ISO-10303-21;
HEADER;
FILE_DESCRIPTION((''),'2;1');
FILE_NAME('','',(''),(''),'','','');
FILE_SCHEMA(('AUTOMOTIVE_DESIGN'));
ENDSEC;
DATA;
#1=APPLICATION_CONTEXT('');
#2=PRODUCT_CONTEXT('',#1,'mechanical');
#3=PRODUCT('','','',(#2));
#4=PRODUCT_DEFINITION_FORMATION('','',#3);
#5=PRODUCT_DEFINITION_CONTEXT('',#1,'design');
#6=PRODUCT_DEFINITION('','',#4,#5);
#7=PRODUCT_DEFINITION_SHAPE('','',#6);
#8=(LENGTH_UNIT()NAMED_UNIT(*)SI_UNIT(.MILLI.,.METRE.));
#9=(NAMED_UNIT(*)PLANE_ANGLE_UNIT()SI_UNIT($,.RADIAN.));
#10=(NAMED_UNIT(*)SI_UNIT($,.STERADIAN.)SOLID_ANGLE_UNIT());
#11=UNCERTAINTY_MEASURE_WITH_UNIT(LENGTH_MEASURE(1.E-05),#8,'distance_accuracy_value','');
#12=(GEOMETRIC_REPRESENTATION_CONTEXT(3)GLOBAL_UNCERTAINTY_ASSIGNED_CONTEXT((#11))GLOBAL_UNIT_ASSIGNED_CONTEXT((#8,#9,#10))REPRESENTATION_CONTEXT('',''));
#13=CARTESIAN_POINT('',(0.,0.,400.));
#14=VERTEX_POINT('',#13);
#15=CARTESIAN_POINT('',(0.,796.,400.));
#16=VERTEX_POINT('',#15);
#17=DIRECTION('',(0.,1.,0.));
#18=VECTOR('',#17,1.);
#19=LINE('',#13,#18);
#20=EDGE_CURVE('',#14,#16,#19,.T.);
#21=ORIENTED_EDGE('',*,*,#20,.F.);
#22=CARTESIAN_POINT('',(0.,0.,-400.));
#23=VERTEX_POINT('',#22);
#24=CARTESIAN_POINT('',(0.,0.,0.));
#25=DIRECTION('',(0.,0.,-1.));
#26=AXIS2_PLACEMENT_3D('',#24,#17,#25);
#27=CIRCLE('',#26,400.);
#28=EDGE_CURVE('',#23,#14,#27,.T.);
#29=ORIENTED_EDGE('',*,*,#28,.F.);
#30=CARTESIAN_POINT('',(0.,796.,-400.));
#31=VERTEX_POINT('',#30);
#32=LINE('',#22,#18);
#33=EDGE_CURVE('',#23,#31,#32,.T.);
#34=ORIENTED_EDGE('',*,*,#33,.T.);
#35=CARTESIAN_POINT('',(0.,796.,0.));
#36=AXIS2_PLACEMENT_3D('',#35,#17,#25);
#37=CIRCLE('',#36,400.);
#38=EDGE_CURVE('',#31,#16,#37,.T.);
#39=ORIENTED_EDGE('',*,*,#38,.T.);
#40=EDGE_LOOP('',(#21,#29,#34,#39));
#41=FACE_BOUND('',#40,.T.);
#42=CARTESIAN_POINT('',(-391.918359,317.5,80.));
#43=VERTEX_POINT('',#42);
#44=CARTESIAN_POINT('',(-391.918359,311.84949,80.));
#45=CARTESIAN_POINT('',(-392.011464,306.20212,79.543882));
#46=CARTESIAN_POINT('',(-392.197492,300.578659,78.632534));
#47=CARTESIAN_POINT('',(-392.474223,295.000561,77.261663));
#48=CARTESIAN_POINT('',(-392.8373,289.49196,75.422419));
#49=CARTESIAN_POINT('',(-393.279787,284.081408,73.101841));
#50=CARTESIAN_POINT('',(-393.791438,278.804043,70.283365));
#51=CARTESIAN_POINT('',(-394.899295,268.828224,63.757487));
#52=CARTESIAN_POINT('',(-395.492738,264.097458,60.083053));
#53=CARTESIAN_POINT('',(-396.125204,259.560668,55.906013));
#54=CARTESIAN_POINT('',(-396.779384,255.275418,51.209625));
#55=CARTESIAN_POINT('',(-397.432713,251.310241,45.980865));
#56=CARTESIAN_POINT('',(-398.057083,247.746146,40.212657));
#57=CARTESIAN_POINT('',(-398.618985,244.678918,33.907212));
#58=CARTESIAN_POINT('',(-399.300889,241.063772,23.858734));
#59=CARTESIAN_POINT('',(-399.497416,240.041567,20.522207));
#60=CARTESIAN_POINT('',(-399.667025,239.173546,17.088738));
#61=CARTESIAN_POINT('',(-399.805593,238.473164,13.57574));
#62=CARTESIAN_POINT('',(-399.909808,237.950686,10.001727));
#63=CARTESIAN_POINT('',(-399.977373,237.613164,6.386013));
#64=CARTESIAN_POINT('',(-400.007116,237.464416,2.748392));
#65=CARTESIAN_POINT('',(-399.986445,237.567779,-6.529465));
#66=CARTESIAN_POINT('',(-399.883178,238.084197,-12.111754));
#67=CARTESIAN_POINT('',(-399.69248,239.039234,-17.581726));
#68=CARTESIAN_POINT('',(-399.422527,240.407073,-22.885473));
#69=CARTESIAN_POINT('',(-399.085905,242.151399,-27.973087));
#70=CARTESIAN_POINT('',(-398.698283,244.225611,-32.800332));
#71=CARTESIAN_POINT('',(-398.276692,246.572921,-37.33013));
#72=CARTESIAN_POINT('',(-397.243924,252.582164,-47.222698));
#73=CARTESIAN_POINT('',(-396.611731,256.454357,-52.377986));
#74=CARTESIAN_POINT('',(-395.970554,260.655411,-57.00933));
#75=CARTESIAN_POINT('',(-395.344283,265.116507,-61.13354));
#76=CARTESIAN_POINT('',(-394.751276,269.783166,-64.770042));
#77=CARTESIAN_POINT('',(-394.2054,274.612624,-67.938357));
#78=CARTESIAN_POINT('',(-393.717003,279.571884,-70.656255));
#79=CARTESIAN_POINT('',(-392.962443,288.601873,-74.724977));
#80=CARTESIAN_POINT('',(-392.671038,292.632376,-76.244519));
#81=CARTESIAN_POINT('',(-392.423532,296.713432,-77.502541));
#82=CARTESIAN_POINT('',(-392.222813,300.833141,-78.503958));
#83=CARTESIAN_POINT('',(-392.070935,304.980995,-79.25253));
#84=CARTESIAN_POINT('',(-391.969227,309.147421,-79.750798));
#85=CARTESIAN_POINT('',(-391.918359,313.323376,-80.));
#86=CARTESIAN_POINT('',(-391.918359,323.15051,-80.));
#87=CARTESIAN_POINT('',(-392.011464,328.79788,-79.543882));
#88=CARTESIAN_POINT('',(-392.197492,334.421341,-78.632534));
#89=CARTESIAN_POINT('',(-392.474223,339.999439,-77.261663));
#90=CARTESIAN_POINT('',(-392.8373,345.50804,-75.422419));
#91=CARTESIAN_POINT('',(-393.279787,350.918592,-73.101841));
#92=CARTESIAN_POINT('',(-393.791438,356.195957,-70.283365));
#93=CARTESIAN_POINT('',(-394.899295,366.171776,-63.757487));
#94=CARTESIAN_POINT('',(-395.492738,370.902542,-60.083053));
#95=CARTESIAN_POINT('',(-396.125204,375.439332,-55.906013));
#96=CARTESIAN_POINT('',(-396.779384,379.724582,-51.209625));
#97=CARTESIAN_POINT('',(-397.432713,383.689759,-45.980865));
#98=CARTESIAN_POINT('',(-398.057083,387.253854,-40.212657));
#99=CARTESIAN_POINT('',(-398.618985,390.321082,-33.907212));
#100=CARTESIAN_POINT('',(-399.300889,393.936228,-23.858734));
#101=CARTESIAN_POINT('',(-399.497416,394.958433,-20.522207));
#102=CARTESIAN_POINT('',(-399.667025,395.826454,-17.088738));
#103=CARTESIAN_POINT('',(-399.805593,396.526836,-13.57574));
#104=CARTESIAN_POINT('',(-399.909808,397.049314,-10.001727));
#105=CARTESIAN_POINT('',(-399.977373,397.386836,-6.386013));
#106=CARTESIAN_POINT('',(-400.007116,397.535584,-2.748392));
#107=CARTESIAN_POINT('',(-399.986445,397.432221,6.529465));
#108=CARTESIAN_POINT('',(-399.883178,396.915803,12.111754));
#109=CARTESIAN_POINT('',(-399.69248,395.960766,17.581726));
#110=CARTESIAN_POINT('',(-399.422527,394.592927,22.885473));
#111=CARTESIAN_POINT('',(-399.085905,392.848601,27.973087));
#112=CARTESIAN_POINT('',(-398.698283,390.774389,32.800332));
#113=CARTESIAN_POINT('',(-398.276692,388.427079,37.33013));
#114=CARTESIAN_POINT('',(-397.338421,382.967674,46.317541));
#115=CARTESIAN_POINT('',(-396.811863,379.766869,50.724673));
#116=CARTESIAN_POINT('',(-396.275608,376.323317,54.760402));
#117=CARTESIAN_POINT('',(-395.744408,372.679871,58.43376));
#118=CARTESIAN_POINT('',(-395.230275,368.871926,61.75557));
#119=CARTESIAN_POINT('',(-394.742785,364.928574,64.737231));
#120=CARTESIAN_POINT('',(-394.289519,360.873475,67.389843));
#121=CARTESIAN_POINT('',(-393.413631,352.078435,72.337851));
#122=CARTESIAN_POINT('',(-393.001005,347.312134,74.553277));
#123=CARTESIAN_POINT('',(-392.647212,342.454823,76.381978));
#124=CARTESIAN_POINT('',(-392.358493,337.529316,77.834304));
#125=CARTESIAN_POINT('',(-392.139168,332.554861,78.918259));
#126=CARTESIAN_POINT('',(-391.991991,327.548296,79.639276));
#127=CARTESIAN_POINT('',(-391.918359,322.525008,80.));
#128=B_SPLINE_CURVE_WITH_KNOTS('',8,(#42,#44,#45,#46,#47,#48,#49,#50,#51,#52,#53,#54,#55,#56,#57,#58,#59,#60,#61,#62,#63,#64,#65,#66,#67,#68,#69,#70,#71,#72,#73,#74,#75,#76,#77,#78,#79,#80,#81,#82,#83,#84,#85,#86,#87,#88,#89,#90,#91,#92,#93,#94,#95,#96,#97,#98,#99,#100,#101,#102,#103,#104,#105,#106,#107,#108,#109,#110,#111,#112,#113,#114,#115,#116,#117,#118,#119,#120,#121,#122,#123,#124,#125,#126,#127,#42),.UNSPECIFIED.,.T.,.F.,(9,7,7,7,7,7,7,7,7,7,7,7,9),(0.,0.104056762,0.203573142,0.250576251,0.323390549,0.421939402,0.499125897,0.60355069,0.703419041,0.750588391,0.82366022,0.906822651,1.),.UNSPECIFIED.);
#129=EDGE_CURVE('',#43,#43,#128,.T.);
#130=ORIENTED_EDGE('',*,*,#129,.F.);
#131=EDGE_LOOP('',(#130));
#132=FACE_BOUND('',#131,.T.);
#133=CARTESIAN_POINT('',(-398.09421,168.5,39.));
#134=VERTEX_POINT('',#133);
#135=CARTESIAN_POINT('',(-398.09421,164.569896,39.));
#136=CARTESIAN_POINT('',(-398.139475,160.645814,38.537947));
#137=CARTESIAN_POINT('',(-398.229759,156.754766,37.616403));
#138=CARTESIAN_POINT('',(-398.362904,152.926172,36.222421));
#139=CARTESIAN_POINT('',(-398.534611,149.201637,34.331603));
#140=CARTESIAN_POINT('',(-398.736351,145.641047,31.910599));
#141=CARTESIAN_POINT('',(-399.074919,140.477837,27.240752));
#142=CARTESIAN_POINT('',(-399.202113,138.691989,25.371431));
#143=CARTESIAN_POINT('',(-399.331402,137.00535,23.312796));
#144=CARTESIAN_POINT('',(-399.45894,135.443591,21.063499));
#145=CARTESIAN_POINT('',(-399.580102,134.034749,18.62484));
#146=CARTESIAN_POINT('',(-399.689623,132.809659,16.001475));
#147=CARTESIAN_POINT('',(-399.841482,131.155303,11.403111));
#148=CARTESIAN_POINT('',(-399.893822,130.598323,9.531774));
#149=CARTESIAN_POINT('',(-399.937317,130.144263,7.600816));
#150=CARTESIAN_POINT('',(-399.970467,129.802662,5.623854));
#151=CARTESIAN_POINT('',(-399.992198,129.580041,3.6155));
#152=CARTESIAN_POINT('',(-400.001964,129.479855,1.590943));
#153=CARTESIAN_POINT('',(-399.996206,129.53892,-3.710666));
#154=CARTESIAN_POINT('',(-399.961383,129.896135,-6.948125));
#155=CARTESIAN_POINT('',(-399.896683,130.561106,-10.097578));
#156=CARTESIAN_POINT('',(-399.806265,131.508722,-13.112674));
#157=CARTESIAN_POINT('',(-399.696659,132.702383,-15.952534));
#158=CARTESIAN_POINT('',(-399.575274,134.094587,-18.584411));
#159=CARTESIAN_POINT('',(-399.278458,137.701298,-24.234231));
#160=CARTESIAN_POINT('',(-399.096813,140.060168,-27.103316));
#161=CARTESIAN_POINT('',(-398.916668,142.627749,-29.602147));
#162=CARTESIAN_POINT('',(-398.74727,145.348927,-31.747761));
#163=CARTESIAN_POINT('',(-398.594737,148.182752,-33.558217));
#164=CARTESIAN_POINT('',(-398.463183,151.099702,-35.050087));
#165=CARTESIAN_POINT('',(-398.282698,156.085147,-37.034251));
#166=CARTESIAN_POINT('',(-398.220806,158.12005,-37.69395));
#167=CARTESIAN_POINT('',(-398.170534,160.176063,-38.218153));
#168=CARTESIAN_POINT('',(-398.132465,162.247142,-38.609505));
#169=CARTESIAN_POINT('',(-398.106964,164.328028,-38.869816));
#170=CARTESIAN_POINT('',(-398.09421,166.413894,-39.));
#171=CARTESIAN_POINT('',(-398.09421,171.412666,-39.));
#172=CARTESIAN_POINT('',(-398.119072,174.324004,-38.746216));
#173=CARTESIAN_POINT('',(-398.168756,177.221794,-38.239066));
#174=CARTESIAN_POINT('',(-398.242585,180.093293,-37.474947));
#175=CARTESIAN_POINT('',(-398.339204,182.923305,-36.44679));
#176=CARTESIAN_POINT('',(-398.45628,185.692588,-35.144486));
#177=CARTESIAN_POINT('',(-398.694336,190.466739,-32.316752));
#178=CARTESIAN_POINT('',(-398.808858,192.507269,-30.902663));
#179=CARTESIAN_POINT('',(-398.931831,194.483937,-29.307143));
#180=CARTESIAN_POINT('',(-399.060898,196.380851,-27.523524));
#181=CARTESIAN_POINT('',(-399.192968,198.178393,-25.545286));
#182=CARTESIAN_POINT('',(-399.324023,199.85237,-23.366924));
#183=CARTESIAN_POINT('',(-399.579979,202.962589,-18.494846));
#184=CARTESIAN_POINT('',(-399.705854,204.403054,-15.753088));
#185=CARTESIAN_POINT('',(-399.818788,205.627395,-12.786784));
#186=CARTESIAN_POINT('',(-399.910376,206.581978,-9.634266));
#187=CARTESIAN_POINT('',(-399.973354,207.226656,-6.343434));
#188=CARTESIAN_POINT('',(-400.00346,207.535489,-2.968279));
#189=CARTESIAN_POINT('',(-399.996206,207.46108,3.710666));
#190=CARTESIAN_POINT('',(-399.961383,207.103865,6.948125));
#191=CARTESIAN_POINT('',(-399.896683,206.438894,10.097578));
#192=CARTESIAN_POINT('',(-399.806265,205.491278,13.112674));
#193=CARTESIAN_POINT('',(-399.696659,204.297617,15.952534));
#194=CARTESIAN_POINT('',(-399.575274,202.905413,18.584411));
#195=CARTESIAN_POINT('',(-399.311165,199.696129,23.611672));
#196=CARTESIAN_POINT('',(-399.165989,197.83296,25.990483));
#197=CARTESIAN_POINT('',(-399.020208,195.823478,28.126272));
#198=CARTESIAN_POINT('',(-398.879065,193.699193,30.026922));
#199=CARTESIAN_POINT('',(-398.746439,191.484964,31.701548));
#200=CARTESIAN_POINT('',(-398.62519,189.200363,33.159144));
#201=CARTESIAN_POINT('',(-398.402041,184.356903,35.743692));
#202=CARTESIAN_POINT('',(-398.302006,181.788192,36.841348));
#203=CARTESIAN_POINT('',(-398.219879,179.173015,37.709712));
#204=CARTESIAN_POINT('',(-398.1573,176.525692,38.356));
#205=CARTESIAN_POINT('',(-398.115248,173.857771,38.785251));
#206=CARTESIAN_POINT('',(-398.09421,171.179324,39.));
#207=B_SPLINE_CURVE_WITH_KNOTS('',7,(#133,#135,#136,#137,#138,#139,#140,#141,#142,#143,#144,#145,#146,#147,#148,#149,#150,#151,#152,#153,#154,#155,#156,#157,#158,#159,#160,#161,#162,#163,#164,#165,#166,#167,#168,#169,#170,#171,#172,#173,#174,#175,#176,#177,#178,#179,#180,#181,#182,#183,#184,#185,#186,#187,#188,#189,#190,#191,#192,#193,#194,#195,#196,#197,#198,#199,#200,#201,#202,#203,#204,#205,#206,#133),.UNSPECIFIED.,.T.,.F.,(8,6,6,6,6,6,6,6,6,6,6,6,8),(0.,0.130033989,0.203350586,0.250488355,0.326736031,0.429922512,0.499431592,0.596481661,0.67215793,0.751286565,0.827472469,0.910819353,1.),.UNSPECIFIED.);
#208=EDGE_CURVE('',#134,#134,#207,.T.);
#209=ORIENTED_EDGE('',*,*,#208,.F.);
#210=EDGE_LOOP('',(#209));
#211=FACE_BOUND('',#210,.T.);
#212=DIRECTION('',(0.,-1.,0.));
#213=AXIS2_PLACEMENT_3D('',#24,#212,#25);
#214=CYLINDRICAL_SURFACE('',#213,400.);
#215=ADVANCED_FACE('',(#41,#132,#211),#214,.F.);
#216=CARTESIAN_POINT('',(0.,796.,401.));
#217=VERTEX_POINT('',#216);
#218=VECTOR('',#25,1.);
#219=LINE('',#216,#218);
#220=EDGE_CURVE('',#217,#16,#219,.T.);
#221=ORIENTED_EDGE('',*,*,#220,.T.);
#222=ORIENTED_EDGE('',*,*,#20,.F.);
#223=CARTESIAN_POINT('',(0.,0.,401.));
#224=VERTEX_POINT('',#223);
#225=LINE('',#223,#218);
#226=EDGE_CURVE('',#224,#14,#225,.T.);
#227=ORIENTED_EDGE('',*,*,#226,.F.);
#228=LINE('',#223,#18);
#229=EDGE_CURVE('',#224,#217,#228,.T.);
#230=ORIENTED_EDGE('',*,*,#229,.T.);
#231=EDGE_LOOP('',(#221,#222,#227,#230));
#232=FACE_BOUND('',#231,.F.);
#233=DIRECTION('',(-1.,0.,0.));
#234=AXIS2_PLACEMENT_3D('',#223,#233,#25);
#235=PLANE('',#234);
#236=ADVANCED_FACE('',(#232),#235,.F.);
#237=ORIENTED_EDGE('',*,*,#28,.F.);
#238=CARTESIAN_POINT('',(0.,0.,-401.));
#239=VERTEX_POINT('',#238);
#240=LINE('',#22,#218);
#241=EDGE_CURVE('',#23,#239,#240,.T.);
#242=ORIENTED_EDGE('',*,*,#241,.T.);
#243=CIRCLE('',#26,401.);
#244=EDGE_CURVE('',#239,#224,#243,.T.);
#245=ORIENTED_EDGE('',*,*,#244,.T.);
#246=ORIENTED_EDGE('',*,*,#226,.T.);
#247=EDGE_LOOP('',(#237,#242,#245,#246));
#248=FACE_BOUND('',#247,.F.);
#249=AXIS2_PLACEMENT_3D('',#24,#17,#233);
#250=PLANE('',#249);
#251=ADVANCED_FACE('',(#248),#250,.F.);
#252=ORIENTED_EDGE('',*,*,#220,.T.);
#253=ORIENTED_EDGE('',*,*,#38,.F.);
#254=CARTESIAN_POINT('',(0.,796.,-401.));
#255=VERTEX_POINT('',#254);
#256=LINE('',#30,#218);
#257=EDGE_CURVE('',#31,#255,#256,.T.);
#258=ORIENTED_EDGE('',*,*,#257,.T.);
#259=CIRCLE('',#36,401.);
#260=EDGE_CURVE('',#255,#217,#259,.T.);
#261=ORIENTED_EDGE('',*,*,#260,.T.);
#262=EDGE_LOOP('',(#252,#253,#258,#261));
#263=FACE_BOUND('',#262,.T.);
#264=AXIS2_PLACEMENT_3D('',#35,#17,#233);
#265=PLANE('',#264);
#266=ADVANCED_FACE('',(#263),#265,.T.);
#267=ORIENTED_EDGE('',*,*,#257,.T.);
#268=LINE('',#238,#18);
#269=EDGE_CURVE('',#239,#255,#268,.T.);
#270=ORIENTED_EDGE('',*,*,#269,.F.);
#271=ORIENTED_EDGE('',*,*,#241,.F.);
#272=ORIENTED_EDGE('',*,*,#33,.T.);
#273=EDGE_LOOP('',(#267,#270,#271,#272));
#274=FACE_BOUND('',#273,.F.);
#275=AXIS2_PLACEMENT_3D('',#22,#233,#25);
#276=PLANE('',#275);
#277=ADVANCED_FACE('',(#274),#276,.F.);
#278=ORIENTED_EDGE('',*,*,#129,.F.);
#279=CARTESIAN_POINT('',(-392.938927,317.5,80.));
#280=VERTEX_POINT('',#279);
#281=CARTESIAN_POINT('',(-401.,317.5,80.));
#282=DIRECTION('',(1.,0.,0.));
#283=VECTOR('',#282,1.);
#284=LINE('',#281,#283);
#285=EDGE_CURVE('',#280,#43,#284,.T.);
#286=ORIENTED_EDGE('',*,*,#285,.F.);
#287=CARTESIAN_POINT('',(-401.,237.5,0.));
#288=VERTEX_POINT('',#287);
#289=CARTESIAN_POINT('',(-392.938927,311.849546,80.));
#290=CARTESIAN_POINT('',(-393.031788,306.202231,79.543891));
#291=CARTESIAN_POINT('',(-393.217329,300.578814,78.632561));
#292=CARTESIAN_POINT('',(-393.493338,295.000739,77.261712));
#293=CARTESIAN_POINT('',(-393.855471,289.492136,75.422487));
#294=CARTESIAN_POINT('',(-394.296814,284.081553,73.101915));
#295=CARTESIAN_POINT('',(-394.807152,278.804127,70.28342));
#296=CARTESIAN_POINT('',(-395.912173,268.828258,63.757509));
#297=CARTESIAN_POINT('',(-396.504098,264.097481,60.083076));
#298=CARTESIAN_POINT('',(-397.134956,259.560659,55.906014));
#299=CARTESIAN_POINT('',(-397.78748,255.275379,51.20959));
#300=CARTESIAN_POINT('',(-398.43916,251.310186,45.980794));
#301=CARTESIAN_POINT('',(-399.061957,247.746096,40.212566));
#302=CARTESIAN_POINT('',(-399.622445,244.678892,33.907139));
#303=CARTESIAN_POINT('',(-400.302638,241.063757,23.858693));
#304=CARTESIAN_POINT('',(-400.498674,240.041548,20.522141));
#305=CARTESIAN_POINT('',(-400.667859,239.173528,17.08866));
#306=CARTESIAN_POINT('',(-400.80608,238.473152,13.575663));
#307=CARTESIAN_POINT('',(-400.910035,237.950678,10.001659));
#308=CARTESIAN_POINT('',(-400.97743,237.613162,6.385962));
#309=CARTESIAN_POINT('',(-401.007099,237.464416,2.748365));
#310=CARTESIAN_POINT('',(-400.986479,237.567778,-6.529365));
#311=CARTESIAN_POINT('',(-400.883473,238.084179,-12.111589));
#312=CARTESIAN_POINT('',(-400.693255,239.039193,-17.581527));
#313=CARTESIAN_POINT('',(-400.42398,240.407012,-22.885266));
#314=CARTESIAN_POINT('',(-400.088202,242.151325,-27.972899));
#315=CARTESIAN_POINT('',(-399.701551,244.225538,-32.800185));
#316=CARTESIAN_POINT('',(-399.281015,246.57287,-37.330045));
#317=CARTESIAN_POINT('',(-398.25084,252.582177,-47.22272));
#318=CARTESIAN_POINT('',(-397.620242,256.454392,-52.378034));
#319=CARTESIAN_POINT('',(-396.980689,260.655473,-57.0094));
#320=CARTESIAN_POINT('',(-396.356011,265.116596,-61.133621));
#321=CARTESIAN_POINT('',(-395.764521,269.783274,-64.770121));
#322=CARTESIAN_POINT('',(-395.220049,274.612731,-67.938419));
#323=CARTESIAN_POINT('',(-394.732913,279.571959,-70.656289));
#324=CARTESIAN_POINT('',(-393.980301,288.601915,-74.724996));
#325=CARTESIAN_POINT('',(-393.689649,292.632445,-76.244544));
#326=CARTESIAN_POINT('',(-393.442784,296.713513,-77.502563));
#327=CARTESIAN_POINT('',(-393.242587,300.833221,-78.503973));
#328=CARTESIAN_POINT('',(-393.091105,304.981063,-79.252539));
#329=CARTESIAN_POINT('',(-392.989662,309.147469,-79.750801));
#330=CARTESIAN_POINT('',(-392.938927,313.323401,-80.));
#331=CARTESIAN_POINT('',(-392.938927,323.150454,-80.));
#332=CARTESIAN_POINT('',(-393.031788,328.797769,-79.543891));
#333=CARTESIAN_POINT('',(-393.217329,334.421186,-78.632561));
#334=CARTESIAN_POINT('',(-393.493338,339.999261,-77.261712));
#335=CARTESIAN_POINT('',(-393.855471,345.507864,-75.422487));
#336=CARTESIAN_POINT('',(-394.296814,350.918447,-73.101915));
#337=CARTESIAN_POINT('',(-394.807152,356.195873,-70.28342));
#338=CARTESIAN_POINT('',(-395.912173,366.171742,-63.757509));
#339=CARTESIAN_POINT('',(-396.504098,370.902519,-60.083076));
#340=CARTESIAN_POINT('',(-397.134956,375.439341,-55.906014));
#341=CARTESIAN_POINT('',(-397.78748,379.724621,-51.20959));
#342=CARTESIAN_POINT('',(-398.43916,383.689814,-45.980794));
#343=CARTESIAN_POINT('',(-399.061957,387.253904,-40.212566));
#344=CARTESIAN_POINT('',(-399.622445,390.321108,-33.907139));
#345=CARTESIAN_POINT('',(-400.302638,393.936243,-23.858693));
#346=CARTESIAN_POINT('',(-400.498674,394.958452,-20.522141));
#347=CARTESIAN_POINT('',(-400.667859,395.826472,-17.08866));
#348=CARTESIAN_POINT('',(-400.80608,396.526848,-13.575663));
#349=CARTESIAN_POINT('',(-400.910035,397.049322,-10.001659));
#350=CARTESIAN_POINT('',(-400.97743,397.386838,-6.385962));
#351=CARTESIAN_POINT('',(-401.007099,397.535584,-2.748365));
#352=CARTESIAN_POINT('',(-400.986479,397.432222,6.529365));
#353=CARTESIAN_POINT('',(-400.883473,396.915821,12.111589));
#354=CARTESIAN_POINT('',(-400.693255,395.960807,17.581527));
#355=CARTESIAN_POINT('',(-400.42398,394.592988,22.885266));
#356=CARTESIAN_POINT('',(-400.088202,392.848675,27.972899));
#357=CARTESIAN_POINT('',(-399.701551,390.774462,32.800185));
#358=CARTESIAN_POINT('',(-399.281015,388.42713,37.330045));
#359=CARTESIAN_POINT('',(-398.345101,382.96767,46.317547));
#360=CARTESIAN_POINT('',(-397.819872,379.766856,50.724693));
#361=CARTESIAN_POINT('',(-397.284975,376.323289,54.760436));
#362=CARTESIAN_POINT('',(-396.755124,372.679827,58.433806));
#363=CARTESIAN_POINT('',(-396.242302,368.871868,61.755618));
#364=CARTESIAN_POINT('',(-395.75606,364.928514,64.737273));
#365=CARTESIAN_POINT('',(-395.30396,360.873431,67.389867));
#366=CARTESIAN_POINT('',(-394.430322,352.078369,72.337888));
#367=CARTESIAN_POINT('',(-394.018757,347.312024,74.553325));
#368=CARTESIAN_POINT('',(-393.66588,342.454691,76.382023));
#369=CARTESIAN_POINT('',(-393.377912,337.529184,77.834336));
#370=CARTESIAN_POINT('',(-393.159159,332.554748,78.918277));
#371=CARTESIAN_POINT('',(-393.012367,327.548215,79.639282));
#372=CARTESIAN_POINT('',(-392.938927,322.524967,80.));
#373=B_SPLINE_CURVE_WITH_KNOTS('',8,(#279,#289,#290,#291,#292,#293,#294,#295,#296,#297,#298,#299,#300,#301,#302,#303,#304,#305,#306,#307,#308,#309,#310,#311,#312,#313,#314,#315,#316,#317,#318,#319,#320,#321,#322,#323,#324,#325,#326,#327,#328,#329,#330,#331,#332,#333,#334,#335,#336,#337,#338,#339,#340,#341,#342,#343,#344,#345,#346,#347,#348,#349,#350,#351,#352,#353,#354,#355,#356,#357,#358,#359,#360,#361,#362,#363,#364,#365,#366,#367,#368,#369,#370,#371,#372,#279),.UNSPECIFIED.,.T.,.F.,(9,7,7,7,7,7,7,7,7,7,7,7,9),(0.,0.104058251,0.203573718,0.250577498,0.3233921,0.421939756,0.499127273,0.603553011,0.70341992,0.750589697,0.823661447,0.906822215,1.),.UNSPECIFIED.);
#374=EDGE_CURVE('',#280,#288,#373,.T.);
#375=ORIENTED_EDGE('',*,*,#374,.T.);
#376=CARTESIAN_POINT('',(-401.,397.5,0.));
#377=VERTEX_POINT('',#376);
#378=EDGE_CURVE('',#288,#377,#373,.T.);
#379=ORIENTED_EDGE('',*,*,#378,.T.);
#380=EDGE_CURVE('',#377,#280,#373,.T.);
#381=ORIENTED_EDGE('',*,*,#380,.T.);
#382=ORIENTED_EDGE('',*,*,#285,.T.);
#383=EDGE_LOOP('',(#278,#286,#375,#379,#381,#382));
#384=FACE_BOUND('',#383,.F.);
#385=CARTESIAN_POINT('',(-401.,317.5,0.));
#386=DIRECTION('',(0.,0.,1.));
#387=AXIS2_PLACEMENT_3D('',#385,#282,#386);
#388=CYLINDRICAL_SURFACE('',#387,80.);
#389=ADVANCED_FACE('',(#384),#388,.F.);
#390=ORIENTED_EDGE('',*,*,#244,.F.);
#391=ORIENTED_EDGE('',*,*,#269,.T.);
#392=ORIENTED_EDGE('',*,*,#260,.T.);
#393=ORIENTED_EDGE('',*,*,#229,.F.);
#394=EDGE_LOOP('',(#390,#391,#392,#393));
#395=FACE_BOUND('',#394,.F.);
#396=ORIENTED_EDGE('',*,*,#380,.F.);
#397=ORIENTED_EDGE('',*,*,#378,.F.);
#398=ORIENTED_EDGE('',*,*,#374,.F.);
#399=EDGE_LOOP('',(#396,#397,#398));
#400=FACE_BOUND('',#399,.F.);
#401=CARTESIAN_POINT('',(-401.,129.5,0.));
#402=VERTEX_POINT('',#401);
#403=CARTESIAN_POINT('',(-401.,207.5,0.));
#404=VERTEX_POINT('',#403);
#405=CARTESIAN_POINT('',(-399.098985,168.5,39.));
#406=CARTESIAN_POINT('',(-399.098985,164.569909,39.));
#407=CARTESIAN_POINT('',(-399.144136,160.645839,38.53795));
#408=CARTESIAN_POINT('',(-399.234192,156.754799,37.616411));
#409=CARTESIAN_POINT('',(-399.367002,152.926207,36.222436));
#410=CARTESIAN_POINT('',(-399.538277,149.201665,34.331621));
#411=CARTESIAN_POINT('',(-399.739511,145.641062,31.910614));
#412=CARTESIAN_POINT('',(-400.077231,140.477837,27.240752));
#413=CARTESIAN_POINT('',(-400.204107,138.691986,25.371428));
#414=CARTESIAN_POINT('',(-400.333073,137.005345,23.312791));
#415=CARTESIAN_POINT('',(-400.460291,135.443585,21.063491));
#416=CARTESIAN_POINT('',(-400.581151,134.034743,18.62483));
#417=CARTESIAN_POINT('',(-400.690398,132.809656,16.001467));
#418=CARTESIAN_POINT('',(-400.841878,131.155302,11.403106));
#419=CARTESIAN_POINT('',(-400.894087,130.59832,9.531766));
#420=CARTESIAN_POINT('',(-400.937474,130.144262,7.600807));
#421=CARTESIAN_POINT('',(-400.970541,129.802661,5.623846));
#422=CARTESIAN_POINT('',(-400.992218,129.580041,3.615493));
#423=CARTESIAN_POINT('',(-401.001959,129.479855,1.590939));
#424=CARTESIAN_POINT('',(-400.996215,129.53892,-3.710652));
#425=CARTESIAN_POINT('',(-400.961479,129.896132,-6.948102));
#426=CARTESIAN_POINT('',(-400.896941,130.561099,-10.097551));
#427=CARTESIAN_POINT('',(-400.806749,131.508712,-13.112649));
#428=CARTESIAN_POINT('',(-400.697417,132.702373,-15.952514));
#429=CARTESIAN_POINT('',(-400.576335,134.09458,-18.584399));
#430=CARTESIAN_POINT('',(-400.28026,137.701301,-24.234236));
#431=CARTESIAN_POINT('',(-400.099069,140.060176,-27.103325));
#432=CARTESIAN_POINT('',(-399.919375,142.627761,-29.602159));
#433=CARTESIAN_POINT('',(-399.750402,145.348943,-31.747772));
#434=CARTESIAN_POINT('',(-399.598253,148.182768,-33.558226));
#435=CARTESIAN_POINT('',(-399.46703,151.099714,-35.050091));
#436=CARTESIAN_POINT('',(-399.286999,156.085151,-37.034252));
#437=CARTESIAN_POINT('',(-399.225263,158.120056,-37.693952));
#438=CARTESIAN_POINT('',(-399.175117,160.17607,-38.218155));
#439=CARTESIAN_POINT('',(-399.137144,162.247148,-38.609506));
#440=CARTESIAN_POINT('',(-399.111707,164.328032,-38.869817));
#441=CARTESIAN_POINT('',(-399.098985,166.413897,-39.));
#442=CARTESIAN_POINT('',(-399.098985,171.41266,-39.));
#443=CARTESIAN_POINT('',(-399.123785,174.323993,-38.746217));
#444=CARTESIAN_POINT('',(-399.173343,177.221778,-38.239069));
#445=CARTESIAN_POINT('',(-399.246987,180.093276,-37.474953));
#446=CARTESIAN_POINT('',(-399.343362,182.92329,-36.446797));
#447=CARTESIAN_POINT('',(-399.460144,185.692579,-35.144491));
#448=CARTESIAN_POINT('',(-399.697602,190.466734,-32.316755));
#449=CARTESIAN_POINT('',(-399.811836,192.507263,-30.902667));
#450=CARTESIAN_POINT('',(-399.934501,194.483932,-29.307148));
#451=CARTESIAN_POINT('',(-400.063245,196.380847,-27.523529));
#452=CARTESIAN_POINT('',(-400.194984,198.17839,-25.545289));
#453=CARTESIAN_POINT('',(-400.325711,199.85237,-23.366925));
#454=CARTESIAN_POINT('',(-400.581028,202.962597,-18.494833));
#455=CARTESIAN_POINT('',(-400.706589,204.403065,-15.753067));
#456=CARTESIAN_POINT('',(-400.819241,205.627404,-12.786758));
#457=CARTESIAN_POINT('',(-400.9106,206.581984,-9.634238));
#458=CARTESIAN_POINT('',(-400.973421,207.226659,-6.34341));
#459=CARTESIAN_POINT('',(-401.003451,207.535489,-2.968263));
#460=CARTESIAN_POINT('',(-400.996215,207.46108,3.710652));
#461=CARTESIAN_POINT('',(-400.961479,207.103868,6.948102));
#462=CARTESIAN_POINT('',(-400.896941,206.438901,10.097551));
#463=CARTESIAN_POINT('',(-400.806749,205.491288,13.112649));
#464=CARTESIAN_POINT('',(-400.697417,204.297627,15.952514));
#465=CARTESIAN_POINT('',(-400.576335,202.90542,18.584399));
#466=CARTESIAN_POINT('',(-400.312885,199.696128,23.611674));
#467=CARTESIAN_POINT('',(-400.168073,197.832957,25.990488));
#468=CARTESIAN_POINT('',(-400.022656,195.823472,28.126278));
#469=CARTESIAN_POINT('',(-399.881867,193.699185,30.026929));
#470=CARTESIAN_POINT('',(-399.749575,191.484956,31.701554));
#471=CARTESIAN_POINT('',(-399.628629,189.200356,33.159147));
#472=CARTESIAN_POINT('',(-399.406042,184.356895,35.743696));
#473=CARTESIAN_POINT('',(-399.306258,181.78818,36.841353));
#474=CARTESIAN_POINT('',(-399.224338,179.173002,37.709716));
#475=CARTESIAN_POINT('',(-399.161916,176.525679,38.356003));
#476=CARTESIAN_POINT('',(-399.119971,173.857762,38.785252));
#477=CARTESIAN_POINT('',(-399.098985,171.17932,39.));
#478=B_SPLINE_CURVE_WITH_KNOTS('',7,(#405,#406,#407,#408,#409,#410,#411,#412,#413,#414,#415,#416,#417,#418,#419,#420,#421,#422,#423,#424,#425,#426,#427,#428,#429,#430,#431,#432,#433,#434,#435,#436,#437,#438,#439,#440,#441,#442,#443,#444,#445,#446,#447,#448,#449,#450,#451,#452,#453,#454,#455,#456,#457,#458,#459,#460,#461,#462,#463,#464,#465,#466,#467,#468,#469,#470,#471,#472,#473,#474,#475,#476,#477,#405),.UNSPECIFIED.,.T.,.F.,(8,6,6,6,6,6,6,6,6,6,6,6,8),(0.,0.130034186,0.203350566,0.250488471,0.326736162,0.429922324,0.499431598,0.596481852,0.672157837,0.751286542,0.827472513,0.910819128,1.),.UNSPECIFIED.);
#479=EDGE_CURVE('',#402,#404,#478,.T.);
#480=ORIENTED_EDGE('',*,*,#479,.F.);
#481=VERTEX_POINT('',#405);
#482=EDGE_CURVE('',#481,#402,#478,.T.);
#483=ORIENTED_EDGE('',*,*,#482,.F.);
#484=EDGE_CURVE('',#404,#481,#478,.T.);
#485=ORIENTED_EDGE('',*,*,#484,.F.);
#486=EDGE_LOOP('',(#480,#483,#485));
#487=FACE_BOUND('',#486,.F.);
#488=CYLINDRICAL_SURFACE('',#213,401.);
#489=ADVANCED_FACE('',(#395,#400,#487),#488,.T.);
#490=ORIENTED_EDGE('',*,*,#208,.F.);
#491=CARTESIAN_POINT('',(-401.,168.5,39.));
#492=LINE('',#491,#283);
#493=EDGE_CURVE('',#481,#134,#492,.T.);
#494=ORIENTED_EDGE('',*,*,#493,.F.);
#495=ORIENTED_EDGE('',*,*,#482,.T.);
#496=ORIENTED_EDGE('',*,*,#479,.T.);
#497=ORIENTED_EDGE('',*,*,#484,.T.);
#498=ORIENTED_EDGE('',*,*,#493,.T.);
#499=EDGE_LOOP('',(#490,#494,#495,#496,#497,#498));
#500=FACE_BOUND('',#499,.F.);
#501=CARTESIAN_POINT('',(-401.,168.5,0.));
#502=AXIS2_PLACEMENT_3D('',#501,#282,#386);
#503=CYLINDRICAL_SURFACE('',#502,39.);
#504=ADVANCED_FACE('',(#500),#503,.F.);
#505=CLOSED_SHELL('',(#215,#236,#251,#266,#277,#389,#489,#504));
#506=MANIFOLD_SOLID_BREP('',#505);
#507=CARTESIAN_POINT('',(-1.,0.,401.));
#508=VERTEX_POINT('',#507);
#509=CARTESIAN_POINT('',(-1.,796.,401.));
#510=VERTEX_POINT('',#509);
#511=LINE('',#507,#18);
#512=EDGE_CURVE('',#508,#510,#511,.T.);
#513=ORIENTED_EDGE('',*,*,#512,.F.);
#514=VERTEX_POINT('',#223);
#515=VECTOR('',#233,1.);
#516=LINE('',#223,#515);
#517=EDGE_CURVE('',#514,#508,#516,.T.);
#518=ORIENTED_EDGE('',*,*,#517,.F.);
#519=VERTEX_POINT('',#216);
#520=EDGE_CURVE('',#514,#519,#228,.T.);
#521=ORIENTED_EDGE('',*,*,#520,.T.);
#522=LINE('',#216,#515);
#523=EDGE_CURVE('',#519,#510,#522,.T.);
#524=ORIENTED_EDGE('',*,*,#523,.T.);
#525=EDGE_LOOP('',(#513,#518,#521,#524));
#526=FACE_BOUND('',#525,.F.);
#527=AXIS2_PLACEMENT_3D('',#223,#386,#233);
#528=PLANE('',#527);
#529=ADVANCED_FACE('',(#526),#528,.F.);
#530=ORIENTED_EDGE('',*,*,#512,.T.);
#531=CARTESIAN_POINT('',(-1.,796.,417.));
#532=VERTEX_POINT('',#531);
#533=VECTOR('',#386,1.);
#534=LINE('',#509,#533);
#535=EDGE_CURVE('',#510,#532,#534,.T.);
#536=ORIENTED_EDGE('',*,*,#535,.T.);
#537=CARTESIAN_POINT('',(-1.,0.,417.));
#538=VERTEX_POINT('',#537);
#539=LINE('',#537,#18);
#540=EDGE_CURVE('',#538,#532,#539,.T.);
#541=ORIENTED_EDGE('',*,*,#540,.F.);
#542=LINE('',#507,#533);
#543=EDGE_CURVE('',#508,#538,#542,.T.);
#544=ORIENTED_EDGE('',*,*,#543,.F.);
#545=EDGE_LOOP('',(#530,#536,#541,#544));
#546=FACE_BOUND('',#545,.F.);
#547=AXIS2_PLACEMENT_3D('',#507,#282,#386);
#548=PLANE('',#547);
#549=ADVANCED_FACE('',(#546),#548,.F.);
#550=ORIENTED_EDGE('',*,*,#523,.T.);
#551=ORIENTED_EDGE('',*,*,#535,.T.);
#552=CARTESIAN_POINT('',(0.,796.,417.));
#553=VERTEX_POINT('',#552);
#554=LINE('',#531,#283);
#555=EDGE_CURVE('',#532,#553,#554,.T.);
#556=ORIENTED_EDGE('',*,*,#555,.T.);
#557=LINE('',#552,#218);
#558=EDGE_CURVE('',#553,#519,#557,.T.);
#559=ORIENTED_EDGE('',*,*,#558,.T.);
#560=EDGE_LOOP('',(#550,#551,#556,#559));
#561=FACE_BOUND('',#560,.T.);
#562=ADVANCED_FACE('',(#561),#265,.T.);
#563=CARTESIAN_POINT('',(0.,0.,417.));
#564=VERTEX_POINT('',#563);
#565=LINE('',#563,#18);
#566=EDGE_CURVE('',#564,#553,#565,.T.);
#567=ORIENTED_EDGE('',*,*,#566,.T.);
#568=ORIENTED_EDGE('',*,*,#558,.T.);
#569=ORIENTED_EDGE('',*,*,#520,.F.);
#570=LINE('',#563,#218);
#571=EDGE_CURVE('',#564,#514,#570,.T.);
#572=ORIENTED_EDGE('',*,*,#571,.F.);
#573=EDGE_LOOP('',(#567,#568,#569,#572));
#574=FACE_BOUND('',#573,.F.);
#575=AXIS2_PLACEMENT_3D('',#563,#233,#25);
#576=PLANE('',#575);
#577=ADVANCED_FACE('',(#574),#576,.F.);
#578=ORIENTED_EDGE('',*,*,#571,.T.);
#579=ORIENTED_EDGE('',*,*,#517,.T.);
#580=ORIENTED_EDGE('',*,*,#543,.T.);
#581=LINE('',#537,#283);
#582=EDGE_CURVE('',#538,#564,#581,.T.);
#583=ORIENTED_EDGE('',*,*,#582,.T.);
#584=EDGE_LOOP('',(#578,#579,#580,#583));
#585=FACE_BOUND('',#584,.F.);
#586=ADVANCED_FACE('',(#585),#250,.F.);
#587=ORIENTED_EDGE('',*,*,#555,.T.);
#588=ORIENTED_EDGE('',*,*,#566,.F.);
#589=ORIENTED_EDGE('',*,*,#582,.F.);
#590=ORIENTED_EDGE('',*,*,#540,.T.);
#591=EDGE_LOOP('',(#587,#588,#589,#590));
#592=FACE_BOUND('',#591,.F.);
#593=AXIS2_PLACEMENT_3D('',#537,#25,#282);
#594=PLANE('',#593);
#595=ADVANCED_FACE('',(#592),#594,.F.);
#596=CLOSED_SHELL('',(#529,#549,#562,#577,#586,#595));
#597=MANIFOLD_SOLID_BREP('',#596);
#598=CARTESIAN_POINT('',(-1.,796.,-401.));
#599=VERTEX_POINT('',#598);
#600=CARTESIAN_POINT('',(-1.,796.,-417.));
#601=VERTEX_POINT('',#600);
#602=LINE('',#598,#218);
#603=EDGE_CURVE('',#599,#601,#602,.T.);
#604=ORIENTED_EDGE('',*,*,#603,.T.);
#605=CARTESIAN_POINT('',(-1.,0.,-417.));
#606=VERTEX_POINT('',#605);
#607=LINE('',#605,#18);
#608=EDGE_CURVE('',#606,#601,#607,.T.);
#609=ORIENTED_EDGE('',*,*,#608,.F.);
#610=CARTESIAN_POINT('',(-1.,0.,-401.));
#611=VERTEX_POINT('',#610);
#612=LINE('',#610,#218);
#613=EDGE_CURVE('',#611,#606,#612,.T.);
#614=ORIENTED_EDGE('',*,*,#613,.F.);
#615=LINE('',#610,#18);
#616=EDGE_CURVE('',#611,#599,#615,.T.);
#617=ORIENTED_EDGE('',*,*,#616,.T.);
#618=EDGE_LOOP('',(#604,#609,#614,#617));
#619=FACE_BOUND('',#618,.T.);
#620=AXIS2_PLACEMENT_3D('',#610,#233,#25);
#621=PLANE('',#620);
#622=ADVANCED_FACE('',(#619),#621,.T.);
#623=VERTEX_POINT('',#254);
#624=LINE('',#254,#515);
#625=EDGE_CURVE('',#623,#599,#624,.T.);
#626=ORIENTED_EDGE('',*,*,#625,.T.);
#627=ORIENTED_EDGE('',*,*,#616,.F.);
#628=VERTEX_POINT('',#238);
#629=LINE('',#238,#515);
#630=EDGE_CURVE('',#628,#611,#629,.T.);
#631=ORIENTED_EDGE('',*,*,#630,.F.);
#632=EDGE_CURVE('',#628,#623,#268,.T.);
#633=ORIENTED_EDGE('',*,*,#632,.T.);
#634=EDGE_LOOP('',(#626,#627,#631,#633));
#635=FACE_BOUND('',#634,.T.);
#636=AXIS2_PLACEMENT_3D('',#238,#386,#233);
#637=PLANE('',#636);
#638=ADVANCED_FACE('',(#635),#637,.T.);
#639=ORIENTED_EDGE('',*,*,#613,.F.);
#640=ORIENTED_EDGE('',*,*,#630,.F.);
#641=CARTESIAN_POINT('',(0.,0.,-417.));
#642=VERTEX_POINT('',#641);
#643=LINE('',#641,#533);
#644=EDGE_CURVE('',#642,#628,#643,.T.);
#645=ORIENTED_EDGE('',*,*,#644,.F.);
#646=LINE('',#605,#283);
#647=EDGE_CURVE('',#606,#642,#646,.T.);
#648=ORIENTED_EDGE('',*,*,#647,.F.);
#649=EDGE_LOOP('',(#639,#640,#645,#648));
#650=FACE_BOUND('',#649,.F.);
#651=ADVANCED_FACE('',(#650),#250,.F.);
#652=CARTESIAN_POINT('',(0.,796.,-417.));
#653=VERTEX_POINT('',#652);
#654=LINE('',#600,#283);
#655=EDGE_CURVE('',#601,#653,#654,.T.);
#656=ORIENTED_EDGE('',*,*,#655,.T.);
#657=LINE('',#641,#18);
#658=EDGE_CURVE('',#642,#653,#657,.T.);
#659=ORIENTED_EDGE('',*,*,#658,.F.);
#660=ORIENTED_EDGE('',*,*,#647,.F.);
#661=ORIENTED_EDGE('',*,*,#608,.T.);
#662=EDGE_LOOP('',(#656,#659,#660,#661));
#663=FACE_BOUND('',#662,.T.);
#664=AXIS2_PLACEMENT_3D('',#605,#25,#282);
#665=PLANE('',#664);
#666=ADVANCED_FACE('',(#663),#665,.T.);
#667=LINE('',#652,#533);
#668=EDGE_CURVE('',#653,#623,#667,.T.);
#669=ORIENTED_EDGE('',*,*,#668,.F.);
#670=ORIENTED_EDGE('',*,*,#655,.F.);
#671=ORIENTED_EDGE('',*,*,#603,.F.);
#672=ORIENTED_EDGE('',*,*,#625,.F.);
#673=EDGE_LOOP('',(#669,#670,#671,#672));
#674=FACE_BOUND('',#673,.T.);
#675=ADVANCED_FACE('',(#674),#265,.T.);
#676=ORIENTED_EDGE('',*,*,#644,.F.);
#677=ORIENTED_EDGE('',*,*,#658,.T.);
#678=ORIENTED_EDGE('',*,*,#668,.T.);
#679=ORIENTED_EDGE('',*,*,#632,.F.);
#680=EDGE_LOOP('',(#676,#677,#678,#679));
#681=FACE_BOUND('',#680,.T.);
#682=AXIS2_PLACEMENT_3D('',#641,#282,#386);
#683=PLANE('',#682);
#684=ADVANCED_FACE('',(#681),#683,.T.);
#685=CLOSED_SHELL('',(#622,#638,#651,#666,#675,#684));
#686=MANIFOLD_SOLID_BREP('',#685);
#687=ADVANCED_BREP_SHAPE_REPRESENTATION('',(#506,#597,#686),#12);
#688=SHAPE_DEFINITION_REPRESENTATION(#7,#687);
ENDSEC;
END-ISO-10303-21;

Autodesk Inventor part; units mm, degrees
ref_plane "YZ Plane" through (0, 0, 0) normal (1, 0, 0) x (0, 1, 0)
ref_plane "XZ Plane" through (0, 0, 0) normal (0, 1, 0) x (-1, 0, 0)
sketch "Sketch1" plane through (0, 0, 0) normal (0, 1, 0) x (-1, 0, 0)
  arc A0 (0, -401) -> (0, 401) centre (0, 0) ccw
  line L0 (0, 0) -> (0, 401) construction
  line L1 (0, 0) -> (401, 0) construction
  line L2 (0, 0) -> (0, -401) construction
  arc A1 (0, -400) -> (0, 400) centre (0, 0) ccw
  line L3 (0, 0) -> (0, 400) construction
  line L4 (0, 0) -> (0, -400) construction
  line L5 (0, 401) -> (0, 400)
  line L6 (0, -400) -> (0, -401)
  dimension "d0" = 401
  dimension "d1" = 90
  dimension "d2" = 180
  dimension "d3" = 400
  dimension "d4" = 180
extrude "Extrusion1" add sketch "Sketch1" along normal blind 796
sketch "Sketch2" plane through (0, 0, 0) normal (0, 1, 0) x (-1, 0, 0)
  line L0 (0, -401) -> (1, -401)
  line L1 (1, -401) -> (1, -417)
  line L2 (1, -417) -> (0, -417)
  line L3 (0, -417) -> (0, -401)
  point P0 (0, 0)
  dimension "d7" = 1
  dimension "d8" = 16
extrude "Extrusion2" add sketch "Sketch2" along normal blind 796
sketch "Sketch3" plane through (0, 0, 0) normal (0, 1, 0) x (-1, 0, 0)
  line L0 (0, 401) -> (1, 401)
  line L1 (1, 401) -> (1, 417)
  line L2 (1, 417) -> (0, 417)
  line L3 (0, 417) -> (0, 401)
  point P0 (0, 0)
  dimension "d11" = 1
  dimension "d12" = 16
extrude "Extrusion3" add sketch "Sketch3" along normal blind 796
sketch "Sketch4" plane through (0, 0, 0) normal (0, 1, 0) x (-1, 0, 0)
  line L0 (0, 0) -> (401, 0)
  dimension "d15" = 401
ref_plane "Work Plane1" through (-401, 0, 0) normal (-1, 0, 0) x (0, -1, 0)
sketch "Sketch5" plane through (-401, 0, 0) normal (-1, 0, 0) x (0, -1, 0)
  circle A0 centre (-168.5, 0) radius 39
  line L0 (-796, 401) -> (-796, -401) projected
  point P0 (0, 0)
  dimension "d16" = 78
  dimension "d17" = 627.5
hole "Hole1" at (-401, 168.5, 0) direction (1, 0, 0) diameter 78 end through all
sketch "Sketch6" plane through (-401, 0, 0) normal (-1, 0, 0) x (0, -1, 0)
  circle A0 centre (-317.5, 0) radius 80
  line L0 (-796, 401) -> (-796, -401) projected
  point P0 (0, 0)
  dimension "d25" = 160
  dimension "d26" = 478.5
hole "Hole2" at (-401, 317.5, 0) direction (1, 0, 0) diameter 160 end through all
properties part number "Upper Front Half"
